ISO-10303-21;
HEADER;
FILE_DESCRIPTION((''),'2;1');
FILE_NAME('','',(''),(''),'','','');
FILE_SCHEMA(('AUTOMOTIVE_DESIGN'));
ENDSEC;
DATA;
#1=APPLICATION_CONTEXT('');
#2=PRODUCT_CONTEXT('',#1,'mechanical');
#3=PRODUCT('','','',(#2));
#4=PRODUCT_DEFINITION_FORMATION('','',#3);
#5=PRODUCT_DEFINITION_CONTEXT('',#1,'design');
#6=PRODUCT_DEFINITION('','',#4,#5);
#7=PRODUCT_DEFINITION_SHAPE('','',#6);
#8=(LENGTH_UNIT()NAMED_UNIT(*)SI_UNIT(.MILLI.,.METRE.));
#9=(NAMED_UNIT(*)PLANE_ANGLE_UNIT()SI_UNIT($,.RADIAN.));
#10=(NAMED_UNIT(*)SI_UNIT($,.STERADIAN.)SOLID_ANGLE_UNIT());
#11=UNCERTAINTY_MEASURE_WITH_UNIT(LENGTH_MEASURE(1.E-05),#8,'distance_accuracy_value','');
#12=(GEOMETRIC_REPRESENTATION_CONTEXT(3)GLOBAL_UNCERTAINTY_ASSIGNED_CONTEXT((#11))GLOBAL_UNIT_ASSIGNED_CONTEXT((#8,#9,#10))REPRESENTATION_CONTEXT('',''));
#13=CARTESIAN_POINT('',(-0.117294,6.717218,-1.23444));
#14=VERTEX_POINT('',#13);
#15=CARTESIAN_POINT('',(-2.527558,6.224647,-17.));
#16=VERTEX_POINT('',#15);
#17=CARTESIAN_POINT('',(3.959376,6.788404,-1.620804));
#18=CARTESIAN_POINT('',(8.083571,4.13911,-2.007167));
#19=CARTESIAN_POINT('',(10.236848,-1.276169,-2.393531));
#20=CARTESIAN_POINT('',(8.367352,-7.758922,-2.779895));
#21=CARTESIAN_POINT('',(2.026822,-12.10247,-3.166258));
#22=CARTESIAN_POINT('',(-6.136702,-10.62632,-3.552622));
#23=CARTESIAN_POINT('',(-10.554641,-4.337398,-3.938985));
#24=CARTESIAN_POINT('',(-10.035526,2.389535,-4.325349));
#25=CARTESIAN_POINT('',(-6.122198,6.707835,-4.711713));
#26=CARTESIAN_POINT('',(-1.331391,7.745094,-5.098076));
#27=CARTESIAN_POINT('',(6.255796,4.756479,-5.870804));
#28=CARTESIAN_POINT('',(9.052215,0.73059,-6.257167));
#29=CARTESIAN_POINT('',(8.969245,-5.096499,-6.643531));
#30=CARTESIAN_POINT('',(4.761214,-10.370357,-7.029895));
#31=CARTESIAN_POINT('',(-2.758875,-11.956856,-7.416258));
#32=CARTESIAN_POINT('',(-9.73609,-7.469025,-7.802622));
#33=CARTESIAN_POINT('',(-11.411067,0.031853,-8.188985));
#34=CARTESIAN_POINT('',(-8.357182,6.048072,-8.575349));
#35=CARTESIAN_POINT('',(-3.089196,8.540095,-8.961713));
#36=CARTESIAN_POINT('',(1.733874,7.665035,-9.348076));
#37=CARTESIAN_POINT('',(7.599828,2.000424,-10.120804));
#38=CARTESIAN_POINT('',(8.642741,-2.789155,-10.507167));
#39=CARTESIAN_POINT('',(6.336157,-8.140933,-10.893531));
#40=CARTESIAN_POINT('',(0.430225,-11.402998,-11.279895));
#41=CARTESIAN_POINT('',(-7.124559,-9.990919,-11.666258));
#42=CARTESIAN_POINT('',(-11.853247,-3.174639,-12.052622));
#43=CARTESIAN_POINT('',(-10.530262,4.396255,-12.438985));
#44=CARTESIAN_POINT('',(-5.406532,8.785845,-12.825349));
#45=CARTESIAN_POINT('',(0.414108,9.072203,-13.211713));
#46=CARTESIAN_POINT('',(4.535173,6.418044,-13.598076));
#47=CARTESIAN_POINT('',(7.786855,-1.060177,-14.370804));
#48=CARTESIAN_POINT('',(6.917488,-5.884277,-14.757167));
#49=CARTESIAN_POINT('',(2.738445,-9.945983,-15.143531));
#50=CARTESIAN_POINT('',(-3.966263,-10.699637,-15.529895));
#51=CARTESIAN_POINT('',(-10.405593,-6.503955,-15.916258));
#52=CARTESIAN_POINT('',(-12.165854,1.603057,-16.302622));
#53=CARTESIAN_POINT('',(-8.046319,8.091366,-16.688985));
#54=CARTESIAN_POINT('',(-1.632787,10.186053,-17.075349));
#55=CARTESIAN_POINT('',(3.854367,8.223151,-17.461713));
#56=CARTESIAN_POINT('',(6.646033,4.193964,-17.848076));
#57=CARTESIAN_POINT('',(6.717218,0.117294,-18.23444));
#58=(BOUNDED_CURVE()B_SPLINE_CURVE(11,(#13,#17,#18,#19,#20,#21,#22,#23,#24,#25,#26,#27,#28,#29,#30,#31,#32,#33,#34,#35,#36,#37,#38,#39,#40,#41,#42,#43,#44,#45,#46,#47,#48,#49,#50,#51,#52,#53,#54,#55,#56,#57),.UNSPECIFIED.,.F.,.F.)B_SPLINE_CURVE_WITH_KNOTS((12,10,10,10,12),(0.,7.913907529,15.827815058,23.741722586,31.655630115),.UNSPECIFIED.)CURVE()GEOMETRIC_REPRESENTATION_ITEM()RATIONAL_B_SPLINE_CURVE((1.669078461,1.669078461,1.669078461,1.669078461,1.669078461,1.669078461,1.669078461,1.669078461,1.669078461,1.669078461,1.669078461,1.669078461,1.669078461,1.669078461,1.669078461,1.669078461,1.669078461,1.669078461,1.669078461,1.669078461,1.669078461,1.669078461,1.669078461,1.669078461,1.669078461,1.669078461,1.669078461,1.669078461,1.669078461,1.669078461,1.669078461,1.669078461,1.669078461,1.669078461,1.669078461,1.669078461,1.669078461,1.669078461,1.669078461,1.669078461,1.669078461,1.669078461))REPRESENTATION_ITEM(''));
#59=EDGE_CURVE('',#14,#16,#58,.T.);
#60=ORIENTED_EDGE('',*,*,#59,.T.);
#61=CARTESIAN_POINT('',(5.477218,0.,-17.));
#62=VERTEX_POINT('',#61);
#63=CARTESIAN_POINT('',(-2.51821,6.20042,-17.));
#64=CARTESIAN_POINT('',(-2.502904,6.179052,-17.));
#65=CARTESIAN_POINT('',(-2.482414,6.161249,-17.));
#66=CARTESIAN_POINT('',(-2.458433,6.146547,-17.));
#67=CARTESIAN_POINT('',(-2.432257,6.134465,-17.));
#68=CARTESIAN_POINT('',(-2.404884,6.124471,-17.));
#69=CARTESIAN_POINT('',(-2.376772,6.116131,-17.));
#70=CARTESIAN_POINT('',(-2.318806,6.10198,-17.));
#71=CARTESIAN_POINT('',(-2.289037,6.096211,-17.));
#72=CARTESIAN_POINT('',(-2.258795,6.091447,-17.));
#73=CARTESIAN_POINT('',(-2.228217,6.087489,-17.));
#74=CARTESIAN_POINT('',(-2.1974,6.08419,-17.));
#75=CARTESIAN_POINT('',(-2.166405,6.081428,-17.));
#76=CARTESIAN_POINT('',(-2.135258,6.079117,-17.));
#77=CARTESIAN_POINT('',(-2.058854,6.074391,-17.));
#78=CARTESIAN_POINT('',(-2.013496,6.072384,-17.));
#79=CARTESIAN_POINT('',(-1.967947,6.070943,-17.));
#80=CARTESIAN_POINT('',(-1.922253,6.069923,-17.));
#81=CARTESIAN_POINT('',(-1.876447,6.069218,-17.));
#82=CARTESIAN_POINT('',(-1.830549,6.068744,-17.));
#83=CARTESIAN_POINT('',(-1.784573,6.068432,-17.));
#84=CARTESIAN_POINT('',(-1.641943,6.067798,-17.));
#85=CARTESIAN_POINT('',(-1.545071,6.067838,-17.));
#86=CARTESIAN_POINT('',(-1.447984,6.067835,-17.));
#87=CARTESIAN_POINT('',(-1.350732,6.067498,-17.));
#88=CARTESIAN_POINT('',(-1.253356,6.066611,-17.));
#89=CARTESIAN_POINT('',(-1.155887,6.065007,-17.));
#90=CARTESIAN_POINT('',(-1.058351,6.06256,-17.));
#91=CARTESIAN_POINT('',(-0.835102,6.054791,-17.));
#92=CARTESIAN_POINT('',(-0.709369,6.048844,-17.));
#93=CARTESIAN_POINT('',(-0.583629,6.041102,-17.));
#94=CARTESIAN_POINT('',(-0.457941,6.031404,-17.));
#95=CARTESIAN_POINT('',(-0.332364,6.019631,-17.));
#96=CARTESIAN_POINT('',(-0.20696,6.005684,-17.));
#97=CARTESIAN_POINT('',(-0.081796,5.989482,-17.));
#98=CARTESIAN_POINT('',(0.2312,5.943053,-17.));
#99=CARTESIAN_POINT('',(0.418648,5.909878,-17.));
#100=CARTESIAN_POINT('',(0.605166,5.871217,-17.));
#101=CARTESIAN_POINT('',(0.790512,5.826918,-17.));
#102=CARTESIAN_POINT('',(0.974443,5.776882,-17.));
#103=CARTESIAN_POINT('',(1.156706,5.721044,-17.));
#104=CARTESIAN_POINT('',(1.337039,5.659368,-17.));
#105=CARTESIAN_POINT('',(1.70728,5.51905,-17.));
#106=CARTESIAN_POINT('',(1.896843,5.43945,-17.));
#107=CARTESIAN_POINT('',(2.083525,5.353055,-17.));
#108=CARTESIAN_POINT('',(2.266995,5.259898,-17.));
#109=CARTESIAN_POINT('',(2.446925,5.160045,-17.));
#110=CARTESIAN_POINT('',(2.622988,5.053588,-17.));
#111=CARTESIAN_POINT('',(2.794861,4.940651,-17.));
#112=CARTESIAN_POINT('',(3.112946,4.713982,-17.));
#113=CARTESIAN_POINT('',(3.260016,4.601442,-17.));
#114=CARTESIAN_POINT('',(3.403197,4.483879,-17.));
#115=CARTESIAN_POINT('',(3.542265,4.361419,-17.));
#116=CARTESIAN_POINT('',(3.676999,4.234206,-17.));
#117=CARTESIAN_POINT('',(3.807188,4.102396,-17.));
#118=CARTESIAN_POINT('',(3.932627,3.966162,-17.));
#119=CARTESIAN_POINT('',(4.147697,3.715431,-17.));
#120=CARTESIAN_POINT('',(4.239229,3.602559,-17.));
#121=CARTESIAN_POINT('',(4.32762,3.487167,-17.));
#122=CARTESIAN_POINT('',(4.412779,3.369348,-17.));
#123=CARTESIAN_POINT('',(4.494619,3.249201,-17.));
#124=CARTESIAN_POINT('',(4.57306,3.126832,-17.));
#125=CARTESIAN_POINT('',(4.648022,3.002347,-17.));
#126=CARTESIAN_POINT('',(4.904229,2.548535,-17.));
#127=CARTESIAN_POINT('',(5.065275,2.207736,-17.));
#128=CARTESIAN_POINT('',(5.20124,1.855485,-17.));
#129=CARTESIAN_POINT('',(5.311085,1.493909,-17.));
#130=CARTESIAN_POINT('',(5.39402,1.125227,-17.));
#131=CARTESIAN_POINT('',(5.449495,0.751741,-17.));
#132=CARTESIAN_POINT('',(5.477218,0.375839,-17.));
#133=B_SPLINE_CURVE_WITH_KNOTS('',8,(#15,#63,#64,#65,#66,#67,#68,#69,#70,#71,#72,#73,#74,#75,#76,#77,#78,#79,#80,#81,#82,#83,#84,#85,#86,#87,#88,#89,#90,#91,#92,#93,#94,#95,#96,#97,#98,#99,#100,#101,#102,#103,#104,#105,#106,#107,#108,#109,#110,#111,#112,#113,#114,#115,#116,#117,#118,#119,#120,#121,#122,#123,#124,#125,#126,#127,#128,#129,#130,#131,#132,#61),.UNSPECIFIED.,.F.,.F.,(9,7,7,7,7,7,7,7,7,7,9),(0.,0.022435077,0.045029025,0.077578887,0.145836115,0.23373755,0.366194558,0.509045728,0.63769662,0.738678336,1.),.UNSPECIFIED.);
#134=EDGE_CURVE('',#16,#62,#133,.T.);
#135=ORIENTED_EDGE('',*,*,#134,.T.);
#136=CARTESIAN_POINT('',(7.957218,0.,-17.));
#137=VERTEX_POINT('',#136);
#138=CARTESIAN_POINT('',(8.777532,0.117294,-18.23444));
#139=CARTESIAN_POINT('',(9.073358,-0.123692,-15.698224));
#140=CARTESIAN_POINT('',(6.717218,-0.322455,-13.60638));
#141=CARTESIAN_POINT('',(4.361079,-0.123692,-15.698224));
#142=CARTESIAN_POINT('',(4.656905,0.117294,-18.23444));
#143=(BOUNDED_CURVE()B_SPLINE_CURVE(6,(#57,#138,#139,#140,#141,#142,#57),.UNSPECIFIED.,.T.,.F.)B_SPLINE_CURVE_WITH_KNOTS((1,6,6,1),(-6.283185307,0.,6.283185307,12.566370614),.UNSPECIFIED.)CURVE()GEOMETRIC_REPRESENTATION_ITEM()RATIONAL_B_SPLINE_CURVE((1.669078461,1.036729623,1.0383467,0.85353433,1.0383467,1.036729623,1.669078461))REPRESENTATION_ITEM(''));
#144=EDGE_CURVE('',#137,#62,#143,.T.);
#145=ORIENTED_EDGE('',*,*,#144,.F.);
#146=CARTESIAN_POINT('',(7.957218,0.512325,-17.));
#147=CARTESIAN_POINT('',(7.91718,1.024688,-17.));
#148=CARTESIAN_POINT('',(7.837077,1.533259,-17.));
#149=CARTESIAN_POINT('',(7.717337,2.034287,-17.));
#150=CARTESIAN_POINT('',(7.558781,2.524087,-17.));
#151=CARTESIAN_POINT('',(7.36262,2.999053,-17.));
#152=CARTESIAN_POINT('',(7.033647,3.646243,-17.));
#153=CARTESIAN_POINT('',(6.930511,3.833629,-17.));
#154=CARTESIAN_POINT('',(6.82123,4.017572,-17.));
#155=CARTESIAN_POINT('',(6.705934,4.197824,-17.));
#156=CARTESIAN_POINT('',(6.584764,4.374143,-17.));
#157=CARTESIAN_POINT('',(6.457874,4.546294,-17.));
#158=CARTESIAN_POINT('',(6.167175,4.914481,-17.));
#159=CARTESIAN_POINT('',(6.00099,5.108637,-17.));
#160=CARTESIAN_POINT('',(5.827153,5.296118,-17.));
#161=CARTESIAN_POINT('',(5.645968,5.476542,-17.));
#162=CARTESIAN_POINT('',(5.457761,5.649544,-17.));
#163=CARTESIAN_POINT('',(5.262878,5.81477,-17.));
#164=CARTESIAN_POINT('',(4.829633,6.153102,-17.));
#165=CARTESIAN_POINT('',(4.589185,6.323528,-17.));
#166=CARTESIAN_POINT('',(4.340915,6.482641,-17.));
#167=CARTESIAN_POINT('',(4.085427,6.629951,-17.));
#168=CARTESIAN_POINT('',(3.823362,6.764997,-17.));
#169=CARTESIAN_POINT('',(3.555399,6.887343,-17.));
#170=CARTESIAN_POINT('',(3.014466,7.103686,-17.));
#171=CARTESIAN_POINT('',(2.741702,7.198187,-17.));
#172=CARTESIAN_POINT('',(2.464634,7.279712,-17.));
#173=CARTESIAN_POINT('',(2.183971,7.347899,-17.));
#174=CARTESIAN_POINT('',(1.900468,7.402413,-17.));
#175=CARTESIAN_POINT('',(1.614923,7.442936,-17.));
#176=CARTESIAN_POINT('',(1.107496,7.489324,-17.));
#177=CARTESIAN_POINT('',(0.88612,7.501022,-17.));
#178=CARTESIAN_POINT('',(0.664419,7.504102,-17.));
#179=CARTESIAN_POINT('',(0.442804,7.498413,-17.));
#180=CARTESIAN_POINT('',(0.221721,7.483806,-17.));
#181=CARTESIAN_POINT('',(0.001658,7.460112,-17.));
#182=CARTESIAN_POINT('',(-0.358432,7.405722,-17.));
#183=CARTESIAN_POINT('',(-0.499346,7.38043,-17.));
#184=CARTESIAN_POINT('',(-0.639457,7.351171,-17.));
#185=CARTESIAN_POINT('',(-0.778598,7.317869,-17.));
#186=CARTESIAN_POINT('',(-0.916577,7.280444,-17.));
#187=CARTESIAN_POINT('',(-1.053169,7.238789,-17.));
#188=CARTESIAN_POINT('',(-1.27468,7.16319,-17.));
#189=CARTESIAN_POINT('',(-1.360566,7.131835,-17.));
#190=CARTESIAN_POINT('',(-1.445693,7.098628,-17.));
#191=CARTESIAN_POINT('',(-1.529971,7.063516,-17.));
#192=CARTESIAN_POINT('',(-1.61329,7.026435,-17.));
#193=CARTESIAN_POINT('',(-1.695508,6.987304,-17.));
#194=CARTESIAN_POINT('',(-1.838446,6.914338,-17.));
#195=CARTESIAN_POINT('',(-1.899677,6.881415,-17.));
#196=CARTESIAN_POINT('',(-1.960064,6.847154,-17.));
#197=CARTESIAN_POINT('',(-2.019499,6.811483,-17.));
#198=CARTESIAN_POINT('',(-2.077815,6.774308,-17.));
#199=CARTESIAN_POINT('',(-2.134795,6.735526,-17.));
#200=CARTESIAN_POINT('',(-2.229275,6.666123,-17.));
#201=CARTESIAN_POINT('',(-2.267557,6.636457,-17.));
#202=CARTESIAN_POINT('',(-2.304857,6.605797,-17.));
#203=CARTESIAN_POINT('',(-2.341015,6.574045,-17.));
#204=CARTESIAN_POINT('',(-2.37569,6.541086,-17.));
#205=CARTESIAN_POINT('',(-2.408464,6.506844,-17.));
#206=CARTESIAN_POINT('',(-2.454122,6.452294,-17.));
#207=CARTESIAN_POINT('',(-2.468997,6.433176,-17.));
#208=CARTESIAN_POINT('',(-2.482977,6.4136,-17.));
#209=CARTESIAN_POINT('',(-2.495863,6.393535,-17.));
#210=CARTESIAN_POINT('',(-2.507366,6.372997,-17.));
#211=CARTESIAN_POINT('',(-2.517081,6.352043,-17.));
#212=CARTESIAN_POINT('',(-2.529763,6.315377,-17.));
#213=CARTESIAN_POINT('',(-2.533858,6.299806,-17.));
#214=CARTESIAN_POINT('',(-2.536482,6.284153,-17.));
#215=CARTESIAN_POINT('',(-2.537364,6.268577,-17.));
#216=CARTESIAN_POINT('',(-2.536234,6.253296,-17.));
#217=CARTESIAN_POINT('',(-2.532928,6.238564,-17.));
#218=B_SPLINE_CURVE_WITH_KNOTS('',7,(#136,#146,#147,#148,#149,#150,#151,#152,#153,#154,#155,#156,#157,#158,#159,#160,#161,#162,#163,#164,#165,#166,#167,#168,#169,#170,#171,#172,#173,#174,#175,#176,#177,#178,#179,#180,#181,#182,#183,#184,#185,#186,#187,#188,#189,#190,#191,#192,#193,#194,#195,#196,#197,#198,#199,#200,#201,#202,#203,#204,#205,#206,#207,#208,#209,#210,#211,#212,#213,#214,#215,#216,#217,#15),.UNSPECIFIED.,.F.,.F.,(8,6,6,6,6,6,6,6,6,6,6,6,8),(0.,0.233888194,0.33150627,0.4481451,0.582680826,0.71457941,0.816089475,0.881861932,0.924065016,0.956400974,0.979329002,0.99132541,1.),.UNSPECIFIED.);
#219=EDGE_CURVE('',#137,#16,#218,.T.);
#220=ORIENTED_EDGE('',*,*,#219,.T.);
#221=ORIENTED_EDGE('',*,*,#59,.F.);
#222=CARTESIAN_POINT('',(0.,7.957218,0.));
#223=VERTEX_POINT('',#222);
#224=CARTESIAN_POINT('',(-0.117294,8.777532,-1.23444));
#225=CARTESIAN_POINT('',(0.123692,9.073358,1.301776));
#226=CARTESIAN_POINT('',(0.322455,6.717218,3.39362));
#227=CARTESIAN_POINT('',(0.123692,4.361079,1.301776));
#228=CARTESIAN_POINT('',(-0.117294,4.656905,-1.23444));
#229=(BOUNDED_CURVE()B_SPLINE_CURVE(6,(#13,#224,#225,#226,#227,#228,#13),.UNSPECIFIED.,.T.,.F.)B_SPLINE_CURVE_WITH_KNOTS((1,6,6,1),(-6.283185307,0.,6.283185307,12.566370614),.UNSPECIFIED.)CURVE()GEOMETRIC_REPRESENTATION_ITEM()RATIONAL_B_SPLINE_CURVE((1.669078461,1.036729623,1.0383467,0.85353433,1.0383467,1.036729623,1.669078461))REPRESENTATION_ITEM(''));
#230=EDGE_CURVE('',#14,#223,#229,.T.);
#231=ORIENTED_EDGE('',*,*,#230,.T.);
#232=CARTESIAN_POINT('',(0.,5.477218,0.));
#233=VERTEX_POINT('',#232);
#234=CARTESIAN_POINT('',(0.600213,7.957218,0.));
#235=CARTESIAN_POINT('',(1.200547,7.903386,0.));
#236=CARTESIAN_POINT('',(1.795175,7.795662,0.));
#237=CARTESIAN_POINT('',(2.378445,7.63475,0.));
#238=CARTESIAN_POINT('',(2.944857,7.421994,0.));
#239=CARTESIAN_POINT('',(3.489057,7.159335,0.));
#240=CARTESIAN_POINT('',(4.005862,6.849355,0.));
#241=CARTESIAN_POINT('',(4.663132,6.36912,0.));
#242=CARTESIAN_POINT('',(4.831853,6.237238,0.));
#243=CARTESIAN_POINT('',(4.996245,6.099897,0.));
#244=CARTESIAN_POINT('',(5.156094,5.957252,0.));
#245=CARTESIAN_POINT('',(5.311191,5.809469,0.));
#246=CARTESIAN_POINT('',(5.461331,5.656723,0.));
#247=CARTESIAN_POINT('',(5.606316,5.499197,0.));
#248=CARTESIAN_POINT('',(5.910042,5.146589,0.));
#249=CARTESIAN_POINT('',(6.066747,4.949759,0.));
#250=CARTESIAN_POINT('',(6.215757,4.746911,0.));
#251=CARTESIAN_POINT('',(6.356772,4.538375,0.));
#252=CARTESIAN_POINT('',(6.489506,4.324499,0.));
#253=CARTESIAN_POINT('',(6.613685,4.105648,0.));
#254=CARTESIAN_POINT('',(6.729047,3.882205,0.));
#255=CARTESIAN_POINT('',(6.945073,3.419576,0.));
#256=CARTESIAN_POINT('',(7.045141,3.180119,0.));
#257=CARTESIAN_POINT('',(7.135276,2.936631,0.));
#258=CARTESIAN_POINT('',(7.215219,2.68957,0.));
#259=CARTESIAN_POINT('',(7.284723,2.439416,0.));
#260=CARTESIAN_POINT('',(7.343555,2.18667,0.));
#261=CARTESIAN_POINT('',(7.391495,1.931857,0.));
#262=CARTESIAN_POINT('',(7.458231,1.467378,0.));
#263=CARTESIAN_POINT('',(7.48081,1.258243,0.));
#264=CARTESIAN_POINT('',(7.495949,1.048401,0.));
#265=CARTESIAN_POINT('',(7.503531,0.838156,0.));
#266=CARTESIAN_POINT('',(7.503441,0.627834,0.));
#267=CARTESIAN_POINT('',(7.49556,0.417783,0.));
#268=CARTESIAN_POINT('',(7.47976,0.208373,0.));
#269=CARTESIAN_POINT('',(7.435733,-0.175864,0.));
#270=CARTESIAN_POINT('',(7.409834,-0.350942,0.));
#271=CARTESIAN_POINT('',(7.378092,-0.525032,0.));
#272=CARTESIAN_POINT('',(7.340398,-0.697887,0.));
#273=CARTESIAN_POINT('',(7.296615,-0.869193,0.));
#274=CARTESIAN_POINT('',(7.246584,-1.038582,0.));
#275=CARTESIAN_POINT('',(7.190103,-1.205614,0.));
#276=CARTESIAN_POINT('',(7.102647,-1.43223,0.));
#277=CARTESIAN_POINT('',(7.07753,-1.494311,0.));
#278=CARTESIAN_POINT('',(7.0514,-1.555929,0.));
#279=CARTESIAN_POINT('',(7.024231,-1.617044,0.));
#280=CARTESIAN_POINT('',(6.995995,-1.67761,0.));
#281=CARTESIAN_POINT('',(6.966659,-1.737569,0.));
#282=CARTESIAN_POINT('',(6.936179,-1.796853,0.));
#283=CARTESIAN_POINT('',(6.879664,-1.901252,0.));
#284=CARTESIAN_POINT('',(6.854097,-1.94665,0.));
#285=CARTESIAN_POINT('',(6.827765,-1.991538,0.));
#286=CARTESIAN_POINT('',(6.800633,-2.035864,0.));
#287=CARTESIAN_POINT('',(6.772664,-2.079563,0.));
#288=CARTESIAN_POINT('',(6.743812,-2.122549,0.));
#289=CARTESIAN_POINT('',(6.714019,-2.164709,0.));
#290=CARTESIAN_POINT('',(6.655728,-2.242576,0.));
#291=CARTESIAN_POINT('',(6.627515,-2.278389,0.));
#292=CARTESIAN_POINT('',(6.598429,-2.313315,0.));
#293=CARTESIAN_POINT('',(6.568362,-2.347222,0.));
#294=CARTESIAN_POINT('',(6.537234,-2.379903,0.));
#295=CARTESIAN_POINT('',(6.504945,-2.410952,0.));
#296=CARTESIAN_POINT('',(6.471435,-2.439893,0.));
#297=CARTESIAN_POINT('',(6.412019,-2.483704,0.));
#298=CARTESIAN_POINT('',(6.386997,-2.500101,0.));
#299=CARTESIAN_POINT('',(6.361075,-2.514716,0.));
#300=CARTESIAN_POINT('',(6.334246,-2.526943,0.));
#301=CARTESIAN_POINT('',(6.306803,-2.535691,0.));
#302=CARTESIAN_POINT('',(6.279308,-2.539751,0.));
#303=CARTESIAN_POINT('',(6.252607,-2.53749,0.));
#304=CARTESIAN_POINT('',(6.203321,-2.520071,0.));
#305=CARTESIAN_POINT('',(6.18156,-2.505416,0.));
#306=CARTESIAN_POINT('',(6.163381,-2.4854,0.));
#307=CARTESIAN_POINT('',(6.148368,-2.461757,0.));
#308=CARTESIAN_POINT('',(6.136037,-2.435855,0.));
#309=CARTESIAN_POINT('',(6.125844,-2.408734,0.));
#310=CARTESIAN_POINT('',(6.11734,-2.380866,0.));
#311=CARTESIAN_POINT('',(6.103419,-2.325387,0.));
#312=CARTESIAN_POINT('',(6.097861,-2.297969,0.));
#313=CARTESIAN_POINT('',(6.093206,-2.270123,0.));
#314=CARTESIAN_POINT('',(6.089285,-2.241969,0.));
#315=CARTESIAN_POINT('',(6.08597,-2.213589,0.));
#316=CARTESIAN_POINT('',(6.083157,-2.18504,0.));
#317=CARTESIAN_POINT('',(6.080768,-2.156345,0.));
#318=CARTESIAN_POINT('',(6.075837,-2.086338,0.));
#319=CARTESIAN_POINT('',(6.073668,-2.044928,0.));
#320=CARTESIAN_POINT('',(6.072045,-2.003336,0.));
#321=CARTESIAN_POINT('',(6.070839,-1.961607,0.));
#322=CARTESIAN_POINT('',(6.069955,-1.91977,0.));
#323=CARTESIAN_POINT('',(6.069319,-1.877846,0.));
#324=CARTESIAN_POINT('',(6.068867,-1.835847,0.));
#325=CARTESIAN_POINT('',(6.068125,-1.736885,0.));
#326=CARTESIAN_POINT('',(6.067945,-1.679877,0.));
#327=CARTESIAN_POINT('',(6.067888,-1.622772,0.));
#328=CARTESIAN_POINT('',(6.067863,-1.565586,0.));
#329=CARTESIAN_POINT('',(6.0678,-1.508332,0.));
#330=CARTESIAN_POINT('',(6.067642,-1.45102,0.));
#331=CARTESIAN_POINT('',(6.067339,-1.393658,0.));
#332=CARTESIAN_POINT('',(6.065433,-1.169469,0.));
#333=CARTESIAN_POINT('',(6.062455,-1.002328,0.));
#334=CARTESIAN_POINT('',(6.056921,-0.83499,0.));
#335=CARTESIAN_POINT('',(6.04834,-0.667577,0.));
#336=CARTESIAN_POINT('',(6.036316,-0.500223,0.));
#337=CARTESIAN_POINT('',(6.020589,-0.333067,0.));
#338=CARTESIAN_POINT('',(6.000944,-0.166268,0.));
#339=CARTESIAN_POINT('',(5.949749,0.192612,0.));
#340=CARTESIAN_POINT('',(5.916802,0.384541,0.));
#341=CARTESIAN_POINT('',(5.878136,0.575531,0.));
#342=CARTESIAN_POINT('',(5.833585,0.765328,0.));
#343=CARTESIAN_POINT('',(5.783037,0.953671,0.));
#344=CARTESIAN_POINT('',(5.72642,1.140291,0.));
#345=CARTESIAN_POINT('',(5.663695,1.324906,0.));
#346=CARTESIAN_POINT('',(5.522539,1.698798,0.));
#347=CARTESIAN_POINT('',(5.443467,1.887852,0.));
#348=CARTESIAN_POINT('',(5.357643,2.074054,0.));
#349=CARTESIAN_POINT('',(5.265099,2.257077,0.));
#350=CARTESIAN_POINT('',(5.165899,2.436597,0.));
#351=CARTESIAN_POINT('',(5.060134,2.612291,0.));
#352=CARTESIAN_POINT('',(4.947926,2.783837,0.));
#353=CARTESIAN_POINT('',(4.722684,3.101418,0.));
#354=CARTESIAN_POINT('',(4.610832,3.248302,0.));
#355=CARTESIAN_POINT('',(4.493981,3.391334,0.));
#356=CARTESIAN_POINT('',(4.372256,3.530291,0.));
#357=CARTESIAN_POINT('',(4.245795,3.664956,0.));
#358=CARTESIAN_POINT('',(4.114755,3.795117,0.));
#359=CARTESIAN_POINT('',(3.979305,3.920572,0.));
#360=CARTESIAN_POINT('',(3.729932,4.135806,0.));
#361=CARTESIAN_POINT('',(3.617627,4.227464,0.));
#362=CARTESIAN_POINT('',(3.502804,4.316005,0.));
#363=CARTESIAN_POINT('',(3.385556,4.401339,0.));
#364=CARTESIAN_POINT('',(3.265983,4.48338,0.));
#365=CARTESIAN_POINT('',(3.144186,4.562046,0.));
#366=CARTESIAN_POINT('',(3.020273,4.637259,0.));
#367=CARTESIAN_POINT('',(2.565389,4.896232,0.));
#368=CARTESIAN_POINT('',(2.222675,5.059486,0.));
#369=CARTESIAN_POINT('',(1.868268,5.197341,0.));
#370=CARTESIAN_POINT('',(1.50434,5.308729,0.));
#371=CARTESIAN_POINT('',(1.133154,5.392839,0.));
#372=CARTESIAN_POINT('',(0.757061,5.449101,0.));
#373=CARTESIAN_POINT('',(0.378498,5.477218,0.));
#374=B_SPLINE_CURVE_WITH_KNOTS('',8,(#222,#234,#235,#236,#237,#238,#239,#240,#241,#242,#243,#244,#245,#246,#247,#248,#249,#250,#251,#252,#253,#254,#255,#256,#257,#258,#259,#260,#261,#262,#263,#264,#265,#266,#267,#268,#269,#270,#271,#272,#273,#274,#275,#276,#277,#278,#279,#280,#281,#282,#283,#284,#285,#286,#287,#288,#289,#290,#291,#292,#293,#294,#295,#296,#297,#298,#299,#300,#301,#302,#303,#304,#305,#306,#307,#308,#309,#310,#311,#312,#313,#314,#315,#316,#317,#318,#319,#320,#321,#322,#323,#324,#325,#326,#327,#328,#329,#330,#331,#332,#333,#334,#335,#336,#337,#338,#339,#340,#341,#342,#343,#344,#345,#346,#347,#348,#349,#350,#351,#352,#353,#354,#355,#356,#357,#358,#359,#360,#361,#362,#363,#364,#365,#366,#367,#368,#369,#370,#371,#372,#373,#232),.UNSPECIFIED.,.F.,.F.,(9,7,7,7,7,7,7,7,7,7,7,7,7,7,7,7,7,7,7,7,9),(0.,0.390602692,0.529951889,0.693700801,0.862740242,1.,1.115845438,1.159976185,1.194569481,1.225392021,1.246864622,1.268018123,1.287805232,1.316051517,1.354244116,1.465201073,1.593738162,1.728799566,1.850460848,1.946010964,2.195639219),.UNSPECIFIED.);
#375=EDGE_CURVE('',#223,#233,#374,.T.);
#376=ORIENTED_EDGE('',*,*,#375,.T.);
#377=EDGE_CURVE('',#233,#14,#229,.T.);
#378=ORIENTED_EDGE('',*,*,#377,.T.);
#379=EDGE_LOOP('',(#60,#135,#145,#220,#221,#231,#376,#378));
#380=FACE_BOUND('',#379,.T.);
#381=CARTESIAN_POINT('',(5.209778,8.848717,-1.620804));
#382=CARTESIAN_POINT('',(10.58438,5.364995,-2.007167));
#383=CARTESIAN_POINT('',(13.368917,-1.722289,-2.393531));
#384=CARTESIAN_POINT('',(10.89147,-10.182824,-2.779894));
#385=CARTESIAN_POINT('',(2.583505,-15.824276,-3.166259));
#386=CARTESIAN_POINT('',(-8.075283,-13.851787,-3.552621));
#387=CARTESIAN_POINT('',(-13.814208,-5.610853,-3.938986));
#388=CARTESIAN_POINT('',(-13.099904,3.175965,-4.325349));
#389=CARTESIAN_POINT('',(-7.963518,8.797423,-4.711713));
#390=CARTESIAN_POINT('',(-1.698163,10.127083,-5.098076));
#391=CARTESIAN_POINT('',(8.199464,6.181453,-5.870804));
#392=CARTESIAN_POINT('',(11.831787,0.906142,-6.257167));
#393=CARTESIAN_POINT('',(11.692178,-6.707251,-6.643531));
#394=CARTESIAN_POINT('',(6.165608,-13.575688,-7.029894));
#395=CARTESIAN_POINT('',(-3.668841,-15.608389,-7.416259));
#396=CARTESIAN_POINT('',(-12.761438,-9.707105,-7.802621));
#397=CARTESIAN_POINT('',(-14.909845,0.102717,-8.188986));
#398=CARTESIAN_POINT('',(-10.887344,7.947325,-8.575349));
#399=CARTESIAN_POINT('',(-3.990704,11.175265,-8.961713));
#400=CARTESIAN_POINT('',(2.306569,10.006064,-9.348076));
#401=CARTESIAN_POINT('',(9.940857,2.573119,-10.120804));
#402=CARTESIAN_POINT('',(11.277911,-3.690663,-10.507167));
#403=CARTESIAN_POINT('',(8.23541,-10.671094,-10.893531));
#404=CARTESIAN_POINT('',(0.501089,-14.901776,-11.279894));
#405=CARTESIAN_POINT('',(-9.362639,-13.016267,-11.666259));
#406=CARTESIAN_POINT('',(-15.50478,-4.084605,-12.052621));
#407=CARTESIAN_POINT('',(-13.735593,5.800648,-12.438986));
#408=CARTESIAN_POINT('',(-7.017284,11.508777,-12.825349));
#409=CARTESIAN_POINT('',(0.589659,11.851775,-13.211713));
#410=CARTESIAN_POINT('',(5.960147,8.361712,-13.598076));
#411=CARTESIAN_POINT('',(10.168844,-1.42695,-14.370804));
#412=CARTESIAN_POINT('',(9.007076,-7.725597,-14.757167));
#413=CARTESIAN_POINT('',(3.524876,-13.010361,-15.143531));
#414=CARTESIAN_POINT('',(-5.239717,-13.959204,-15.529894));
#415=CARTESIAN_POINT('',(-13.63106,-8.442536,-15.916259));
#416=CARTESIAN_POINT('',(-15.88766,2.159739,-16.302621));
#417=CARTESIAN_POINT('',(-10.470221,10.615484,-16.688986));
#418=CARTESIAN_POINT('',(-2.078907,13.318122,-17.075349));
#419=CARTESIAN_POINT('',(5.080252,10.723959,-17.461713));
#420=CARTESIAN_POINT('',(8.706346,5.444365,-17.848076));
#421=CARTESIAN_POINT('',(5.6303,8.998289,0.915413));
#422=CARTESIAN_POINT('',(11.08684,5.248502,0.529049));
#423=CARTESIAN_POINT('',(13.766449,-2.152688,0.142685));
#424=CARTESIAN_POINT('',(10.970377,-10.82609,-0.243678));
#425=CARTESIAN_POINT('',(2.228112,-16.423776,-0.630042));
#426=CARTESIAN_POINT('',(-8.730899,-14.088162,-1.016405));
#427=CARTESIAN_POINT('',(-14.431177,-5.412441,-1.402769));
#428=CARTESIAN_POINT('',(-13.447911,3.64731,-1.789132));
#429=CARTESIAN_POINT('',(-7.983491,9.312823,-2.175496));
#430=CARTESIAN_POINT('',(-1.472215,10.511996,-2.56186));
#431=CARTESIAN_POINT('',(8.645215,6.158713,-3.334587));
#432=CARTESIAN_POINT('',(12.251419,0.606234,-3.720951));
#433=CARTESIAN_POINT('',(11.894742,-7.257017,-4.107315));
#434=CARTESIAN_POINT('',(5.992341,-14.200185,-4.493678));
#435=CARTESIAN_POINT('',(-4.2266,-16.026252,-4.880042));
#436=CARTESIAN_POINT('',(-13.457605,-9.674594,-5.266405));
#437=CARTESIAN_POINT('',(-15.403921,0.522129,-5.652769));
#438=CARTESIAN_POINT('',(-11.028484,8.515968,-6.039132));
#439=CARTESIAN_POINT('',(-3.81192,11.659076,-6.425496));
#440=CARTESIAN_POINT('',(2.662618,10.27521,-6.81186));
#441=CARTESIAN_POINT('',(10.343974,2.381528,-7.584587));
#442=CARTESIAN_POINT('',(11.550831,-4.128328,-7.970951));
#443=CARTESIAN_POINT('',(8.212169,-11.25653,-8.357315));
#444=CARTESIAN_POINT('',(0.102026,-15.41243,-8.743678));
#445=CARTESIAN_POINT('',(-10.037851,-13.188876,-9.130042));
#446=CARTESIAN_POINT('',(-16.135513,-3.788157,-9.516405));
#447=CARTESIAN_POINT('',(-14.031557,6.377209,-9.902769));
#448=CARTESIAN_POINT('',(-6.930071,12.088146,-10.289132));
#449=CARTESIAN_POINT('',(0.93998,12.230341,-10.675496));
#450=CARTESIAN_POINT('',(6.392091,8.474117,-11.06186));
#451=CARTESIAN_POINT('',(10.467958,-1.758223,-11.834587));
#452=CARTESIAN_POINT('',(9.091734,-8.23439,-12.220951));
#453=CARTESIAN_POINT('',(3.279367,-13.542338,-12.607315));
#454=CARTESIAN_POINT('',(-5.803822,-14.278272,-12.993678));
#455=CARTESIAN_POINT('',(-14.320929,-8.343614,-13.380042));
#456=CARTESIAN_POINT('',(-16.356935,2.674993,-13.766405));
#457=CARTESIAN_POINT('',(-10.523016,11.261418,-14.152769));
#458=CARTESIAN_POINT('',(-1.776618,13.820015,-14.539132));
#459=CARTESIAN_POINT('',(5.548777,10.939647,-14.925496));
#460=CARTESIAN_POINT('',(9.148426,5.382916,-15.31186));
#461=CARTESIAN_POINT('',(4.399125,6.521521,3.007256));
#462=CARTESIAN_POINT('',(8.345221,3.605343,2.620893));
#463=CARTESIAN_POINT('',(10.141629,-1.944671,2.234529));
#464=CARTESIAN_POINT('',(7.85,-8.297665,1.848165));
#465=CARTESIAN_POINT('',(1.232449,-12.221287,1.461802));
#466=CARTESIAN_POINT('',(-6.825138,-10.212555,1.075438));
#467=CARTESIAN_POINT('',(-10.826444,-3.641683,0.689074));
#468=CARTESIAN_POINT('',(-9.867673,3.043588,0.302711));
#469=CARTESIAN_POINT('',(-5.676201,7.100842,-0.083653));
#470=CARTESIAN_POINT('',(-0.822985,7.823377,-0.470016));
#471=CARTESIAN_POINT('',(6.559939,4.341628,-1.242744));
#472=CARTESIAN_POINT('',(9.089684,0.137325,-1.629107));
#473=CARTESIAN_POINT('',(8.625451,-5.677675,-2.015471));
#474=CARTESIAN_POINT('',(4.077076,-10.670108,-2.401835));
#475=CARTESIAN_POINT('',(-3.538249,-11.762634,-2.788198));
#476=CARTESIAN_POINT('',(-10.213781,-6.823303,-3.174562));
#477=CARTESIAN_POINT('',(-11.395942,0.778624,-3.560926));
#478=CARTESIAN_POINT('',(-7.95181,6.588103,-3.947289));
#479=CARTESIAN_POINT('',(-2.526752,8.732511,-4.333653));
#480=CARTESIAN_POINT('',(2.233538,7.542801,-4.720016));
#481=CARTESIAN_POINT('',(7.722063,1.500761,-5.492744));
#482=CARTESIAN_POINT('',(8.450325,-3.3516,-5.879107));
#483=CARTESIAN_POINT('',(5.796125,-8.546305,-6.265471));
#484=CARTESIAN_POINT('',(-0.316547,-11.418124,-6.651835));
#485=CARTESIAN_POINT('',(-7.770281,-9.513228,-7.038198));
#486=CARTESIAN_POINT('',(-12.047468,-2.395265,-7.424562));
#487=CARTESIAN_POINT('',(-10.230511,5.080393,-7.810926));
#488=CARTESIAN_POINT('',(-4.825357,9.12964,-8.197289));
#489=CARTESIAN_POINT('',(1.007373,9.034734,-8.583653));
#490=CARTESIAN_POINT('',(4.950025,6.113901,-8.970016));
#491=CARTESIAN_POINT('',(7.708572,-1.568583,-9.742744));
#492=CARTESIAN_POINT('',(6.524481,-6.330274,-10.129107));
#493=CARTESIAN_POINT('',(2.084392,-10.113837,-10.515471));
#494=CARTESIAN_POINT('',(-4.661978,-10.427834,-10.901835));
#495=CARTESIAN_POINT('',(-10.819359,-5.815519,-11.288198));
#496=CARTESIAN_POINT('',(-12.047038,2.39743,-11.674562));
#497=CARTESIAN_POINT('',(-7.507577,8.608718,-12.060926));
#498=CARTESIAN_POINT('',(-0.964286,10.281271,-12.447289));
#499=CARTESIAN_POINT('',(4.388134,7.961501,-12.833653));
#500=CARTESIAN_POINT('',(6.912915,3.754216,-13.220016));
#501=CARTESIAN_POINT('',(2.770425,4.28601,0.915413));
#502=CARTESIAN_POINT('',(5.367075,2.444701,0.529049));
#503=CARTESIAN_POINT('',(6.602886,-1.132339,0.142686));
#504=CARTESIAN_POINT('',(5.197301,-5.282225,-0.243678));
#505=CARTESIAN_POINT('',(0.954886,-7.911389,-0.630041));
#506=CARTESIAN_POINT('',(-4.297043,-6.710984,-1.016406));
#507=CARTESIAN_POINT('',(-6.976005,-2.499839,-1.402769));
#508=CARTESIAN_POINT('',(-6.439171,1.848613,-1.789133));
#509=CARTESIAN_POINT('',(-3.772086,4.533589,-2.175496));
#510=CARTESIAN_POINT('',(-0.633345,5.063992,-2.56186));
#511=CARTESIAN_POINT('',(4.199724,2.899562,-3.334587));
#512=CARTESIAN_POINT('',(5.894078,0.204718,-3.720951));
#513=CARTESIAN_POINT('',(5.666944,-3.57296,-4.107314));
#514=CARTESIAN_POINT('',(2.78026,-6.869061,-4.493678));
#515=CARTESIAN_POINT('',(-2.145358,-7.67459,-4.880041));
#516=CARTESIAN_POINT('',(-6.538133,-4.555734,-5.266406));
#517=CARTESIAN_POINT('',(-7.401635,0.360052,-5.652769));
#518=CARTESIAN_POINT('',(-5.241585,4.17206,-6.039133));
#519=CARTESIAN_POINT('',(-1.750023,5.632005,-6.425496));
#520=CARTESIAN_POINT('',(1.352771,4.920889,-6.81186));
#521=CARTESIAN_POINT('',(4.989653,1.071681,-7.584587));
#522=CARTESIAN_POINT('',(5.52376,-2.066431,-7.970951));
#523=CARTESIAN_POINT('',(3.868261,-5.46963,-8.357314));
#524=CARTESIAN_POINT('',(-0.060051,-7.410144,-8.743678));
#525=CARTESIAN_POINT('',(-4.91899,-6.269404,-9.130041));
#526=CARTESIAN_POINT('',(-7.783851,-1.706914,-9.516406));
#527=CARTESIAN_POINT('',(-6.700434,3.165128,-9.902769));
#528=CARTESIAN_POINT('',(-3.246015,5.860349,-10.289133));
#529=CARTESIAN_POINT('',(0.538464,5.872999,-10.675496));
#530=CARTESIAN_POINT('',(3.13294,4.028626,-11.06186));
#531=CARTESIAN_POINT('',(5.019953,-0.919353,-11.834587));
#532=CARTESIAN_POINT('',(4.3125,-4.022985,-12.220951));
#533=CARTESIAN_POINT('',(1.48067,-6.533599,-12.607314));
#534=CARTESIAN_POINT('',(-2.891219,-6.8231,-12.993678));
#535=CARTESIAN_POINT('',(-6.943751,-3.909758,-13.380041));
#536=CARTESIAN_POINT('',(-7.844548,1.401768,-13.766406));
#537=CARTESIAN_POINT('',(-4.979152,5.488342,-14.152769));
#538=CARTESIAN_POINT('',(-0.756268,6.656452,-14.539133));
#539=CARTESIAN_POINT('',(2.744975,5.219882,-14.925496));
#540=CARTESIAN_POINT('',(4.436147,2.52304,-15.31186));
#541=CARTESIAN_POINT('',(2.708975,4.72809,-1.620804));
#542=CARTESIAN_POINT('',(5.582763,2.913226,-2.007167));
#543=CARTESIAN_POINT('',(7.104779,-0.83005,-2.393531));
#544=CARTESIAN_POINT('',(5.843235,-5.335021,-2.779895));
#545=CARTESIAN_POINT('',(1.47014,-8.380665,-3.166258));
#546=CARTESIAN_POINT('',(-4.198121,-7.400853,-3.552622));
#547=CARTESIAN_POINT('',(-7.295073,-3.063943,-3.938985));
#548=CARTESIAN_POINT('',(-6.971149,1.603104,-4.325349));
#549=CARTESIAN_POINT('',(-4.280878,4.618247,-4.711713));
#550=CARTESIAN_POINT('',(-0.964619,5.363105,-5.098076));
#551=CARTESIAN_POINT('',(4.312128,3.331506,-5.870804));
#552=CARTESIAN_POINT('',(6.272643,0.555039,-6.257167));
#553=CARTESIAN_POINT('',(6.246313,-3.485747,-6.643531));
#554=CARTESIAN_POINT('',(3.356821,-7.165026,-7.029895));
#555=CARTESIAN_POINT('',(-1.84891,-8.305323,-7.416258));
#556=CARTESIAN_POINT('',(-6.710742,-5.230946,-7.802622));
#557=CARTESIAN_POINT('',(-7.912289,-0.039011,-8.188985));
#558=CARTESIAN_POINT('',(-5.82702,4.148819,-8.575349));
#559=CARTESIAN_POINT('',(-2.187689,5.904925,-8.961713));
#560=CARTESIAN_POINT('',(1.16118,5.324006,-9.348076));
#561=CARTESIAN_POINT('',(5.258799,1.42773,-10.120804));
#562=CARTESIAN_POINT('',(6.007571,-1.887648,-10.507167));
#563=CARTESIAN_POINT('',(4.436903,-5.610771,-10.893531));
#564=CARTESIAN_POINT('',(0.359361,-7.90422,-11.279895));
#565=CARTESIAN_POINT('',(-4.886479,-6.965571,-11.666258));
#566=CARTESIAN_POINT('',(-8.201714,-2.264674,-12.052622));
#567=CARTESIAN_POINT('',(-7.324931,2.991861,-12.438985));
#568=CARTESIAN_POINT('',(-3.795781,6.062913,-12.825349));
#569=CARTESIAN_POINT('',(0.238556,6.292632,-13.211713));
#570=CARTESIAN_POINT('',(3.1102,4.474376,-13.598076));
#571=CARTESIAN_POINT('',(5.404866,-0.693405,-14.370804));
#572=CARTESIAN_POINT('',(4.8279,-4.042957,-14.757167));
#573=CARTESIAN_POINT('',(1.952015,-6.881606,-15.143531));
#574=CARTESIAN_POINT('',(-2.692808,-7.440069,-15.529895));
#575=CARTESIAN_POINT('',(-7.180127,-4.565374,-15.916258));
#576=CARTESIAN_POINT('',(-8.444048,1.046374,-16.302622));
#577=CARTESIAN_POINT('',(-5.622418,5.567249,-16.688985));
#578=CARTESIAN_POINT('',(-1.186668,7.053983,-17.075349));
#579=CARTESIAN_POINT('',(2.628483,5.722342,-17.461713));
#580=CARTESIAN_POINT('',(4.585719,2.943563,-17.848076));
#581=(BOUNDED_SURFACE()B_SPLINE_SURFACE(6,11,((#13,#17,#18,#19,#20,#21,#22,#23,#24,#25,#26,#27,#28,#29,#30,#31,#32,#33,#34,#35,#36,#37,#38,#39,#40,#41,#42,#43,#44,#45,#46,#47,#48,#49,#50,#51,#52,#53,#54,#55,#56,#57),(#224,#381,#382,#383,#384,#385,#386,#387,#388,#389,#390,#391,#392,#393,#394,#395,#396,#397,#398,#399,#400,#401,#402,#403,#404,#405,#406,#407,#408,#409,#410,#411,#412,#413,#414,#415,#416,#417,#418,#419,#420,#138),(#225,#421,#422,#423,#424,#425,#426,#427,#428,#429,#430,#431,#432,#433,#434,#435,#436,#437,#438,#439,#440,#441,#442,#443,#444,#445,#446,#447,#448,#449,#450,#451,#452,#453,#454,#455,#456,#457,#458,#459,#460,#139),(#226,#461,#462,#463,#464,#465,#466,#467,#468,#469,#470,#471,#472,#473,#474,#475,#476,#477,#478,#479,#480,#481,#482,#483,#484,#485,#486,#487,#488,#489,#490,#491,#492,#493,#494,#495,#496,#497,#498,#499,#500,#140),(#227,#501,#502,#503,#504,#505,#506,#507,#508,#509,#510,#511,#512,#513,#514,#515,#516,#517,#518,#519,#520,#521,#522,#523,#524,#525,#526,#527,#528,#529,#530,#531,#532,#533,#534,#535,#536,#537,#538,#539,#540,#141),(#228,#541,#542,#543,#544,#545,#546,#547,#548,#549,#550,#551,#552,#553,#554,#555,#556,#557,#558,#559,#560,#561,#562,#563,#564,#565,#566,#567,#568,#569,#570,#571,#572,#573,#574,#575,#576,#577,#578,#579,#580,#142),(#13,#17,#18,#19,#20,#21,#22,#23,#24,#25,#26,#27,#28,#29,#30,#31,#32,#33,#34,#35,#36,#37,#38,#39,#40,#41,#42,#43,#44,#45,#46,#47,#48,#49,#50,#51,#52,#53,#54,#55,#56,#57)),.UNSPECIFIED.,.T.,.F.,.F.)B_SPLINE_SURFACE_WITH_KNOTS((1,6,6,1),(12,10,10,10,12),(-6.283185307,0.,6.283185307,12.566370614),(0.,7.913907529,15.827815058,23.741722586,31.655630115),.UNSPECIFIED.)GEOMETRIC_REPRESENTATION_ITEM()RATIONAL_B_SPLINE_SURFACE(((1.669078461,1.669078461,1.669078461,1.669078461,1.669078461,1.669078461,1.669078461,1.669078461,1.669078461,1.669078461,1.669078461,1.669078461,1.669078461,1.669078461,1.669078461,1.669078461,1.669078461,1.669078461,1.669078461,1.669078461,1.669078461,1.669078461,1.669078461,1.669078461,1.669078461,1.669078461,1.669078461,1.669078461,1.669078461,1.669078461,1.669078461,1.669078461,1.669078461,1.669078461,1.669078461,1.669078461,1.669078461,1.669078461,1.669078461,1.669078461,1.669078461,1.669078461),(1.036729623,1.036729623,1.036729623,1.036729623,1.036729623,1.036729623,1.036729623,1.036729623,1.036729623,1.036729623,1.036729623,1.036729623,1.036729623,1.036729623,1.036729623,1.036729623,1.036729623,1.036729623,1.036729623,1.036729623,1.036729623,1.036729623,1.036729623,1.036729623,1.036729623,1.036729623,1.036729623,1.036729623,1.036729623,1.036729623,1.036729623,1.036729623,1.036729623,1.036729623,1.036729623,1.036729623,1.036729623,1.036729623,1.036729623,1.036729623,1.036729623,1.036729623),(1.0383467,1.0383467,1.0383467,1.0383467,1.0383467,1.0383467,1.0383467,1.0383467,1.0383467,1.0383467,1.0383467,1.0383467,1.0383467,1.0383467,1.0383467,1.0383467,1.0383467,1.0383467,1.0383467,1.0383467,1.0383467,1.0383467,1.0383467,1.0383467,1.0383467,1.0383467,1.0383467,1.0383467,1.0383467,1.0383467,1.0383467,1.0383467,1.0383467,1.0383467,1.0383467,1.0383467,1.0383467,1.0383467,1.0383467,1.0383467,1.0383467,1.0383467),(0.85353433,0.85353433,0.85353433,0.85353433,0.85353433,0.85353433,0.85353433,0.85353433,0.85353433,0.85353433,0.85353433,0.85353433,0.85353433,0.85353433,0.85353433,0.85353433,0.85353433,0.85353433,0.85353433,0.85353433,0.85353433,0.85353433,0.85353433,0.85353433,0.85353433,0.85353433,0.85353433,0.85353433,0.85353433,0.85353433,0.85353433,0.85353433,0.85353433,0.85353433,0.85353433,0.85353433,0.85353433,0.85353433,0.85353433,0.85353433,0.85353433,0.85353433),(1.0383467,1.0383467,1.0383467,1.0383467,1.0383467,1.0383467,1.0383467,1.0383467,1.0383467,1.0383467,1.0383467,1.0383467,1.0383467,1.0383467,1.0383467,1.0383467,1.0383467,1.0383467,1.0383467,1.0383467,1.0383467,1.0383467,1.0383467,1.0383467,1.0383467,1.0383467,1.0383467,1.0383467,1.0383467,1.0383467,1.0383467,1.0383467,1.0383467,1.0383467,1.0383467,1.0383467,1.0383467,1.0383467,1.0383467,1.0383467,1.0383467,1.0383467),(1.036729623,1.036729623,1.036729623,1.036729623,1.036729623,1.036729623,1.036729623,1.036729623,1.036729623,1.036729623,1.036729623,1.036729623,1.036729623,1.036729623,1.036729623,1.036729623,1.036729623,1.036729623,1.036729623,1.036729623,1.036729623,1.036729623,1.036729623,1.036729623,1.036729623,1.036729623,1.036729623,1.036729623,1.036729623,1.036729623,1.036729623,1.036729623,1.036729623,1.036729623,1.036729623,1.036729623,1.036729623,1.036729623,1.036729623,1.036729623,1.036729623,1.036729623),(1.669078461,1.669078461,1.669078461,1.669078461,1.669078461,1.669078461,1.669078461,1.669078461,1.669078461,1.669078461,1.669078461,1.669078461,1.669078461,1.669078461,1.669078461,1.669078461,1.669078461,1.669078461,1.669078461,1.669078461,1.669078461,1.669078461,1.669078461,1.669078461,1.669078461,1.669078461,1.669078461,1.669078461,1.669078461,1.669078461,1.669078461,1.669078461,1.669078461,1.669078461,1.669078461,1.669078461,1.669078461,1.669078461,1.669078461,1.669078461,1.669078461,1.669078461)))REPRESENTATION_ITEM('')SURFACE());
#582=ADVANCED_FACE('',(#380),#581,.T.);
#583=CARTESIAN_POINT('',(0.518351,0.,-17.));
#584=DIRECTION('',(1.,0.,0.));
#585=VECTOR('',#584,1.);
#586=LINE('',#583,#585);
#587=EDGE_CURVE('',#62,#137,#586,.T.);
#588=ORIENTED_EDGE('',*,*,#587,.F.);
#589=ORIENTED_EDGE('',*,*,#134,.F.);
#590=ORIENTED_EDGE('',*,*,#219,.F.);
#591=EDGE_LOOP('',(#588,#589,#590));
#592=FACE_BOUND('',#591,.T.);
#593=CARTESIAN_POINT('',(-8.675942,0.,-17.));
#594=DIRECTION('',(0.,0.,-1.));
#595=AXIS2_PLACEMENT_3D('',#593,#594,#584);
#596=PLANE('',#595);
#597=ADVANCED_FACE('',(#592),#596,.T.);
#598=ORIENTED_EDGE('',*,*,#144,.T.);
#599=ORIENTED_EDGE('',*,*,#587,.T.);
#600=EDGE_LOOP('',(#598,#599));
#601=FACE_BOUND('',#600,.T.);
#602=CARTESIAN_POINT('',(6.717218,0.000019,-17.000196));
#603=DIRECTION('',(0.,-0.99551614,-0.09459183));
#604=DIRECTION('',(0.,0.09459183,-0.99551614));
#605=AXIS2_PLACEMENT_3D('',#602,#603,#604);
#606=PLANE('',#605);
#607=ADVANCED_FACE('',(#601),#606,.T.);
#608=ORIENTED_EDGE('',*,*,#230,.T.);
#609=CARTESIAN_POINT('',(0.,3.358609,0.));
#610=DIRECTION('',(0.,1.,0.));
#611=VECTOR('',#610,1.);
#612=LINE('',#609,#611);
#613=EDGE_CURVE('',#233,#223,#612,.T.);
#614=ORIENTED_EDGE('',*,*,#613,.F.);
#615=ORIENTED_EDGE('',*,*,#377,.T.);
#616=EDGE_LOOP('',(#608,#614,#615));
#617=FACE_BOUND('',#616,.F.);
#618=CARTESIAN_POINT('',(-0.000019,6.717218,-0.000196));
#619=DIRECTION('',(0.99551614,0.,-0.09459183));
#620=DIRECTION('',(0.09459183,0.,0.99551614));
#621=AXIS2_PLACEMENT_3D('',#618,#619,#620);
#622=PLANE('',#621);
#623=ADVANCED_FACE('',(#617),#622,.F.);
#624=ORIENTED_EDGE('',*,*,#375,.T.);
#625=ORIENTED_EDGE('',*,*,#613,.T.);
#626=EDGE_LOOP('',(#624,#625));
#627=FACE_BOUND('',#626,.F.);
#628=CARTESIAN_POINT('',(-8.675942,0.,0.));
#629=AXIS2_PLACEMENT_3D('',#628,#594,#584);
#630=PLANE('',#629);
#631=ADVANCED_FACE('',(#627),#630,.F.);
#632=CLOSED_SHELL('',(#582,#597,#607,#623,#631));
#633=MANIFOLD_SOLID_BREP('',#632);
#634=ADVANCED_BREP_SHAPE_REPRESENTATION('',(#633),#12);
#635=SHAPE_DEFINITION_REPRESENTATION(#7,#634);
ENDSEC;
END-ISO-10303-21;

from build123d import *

# Parameters (mm, degrees)
SWEEP1_PITCH            = 4
SWEEP1_HEIGHT           = 17
SWEEP1_RADIUS           = 6.7
SWEEP1_START_ANGLE      = 90
SKETCH3_R               = 1.24
SKETCH4_W               = 18.388584742
SKETCH4_H               = 3.490349357
SKETCH4_H_2             = 3.172480621
CUT_EXTRUDE1_DEPTH      = 8.957243773
CUT_EXTRUDE1_DEPTH_BACK = 8.95722852


with BuildPart() as part:
    # Sweep1: sweep along a helix
    with BuildLine() as sweep1_path:
        add(Helix(SWEEP1_PITCH, SWEEP1_HEIGHT, SWEEP1_RADIUS, center=(0, 0, 0), direction=(0, 0, -1), mode=Mode.PRIVATE).rotate(Axis((0, 0, 0), (0, 0, -1)), SWEEP1_START_ANGLE))
    # Sketch3 → Sweep1 (sweep)
    with BuildSketch(Plane(origin=(0, 6.7, 0), x_dir=(-0.09459183, 0, -0.99551614), z_dir=(0.99551614, 0, -0.09459183))):
        with Locations((0, 0.017218173)):
            Circle(SKETCH3_R)
    sweep(path=sweep1_path.line, is_frenet=True)

    # Sketch4 → Cut-Extrude1 (cut, two sides)
    with BuildSketch(Plane(origin=(0, 0, 0), x_dir=(1, 0, 0), z_dir=(0, 1, 0))) as cut_extrude1_sk:
        with Locations((0.518350738, 18.745174678)):
            Rectangle(SKETCH4_W, SKETCH4_H)
        with Locations((0.518350738, -1.586240311)):
            Rectangle(SKETCH4_W, SKETCH4_H_2)
    extrude(amount=CUT_EXTRUDE1_DEPTH, mode=Mode.SUBTRACT)
    extrude(cut_extrude1_sk.sketch, amount=-CUT_EXTRUDE1_DEPTH_BACK, mode=Mode.SUBTRACT)


solid = part.part
